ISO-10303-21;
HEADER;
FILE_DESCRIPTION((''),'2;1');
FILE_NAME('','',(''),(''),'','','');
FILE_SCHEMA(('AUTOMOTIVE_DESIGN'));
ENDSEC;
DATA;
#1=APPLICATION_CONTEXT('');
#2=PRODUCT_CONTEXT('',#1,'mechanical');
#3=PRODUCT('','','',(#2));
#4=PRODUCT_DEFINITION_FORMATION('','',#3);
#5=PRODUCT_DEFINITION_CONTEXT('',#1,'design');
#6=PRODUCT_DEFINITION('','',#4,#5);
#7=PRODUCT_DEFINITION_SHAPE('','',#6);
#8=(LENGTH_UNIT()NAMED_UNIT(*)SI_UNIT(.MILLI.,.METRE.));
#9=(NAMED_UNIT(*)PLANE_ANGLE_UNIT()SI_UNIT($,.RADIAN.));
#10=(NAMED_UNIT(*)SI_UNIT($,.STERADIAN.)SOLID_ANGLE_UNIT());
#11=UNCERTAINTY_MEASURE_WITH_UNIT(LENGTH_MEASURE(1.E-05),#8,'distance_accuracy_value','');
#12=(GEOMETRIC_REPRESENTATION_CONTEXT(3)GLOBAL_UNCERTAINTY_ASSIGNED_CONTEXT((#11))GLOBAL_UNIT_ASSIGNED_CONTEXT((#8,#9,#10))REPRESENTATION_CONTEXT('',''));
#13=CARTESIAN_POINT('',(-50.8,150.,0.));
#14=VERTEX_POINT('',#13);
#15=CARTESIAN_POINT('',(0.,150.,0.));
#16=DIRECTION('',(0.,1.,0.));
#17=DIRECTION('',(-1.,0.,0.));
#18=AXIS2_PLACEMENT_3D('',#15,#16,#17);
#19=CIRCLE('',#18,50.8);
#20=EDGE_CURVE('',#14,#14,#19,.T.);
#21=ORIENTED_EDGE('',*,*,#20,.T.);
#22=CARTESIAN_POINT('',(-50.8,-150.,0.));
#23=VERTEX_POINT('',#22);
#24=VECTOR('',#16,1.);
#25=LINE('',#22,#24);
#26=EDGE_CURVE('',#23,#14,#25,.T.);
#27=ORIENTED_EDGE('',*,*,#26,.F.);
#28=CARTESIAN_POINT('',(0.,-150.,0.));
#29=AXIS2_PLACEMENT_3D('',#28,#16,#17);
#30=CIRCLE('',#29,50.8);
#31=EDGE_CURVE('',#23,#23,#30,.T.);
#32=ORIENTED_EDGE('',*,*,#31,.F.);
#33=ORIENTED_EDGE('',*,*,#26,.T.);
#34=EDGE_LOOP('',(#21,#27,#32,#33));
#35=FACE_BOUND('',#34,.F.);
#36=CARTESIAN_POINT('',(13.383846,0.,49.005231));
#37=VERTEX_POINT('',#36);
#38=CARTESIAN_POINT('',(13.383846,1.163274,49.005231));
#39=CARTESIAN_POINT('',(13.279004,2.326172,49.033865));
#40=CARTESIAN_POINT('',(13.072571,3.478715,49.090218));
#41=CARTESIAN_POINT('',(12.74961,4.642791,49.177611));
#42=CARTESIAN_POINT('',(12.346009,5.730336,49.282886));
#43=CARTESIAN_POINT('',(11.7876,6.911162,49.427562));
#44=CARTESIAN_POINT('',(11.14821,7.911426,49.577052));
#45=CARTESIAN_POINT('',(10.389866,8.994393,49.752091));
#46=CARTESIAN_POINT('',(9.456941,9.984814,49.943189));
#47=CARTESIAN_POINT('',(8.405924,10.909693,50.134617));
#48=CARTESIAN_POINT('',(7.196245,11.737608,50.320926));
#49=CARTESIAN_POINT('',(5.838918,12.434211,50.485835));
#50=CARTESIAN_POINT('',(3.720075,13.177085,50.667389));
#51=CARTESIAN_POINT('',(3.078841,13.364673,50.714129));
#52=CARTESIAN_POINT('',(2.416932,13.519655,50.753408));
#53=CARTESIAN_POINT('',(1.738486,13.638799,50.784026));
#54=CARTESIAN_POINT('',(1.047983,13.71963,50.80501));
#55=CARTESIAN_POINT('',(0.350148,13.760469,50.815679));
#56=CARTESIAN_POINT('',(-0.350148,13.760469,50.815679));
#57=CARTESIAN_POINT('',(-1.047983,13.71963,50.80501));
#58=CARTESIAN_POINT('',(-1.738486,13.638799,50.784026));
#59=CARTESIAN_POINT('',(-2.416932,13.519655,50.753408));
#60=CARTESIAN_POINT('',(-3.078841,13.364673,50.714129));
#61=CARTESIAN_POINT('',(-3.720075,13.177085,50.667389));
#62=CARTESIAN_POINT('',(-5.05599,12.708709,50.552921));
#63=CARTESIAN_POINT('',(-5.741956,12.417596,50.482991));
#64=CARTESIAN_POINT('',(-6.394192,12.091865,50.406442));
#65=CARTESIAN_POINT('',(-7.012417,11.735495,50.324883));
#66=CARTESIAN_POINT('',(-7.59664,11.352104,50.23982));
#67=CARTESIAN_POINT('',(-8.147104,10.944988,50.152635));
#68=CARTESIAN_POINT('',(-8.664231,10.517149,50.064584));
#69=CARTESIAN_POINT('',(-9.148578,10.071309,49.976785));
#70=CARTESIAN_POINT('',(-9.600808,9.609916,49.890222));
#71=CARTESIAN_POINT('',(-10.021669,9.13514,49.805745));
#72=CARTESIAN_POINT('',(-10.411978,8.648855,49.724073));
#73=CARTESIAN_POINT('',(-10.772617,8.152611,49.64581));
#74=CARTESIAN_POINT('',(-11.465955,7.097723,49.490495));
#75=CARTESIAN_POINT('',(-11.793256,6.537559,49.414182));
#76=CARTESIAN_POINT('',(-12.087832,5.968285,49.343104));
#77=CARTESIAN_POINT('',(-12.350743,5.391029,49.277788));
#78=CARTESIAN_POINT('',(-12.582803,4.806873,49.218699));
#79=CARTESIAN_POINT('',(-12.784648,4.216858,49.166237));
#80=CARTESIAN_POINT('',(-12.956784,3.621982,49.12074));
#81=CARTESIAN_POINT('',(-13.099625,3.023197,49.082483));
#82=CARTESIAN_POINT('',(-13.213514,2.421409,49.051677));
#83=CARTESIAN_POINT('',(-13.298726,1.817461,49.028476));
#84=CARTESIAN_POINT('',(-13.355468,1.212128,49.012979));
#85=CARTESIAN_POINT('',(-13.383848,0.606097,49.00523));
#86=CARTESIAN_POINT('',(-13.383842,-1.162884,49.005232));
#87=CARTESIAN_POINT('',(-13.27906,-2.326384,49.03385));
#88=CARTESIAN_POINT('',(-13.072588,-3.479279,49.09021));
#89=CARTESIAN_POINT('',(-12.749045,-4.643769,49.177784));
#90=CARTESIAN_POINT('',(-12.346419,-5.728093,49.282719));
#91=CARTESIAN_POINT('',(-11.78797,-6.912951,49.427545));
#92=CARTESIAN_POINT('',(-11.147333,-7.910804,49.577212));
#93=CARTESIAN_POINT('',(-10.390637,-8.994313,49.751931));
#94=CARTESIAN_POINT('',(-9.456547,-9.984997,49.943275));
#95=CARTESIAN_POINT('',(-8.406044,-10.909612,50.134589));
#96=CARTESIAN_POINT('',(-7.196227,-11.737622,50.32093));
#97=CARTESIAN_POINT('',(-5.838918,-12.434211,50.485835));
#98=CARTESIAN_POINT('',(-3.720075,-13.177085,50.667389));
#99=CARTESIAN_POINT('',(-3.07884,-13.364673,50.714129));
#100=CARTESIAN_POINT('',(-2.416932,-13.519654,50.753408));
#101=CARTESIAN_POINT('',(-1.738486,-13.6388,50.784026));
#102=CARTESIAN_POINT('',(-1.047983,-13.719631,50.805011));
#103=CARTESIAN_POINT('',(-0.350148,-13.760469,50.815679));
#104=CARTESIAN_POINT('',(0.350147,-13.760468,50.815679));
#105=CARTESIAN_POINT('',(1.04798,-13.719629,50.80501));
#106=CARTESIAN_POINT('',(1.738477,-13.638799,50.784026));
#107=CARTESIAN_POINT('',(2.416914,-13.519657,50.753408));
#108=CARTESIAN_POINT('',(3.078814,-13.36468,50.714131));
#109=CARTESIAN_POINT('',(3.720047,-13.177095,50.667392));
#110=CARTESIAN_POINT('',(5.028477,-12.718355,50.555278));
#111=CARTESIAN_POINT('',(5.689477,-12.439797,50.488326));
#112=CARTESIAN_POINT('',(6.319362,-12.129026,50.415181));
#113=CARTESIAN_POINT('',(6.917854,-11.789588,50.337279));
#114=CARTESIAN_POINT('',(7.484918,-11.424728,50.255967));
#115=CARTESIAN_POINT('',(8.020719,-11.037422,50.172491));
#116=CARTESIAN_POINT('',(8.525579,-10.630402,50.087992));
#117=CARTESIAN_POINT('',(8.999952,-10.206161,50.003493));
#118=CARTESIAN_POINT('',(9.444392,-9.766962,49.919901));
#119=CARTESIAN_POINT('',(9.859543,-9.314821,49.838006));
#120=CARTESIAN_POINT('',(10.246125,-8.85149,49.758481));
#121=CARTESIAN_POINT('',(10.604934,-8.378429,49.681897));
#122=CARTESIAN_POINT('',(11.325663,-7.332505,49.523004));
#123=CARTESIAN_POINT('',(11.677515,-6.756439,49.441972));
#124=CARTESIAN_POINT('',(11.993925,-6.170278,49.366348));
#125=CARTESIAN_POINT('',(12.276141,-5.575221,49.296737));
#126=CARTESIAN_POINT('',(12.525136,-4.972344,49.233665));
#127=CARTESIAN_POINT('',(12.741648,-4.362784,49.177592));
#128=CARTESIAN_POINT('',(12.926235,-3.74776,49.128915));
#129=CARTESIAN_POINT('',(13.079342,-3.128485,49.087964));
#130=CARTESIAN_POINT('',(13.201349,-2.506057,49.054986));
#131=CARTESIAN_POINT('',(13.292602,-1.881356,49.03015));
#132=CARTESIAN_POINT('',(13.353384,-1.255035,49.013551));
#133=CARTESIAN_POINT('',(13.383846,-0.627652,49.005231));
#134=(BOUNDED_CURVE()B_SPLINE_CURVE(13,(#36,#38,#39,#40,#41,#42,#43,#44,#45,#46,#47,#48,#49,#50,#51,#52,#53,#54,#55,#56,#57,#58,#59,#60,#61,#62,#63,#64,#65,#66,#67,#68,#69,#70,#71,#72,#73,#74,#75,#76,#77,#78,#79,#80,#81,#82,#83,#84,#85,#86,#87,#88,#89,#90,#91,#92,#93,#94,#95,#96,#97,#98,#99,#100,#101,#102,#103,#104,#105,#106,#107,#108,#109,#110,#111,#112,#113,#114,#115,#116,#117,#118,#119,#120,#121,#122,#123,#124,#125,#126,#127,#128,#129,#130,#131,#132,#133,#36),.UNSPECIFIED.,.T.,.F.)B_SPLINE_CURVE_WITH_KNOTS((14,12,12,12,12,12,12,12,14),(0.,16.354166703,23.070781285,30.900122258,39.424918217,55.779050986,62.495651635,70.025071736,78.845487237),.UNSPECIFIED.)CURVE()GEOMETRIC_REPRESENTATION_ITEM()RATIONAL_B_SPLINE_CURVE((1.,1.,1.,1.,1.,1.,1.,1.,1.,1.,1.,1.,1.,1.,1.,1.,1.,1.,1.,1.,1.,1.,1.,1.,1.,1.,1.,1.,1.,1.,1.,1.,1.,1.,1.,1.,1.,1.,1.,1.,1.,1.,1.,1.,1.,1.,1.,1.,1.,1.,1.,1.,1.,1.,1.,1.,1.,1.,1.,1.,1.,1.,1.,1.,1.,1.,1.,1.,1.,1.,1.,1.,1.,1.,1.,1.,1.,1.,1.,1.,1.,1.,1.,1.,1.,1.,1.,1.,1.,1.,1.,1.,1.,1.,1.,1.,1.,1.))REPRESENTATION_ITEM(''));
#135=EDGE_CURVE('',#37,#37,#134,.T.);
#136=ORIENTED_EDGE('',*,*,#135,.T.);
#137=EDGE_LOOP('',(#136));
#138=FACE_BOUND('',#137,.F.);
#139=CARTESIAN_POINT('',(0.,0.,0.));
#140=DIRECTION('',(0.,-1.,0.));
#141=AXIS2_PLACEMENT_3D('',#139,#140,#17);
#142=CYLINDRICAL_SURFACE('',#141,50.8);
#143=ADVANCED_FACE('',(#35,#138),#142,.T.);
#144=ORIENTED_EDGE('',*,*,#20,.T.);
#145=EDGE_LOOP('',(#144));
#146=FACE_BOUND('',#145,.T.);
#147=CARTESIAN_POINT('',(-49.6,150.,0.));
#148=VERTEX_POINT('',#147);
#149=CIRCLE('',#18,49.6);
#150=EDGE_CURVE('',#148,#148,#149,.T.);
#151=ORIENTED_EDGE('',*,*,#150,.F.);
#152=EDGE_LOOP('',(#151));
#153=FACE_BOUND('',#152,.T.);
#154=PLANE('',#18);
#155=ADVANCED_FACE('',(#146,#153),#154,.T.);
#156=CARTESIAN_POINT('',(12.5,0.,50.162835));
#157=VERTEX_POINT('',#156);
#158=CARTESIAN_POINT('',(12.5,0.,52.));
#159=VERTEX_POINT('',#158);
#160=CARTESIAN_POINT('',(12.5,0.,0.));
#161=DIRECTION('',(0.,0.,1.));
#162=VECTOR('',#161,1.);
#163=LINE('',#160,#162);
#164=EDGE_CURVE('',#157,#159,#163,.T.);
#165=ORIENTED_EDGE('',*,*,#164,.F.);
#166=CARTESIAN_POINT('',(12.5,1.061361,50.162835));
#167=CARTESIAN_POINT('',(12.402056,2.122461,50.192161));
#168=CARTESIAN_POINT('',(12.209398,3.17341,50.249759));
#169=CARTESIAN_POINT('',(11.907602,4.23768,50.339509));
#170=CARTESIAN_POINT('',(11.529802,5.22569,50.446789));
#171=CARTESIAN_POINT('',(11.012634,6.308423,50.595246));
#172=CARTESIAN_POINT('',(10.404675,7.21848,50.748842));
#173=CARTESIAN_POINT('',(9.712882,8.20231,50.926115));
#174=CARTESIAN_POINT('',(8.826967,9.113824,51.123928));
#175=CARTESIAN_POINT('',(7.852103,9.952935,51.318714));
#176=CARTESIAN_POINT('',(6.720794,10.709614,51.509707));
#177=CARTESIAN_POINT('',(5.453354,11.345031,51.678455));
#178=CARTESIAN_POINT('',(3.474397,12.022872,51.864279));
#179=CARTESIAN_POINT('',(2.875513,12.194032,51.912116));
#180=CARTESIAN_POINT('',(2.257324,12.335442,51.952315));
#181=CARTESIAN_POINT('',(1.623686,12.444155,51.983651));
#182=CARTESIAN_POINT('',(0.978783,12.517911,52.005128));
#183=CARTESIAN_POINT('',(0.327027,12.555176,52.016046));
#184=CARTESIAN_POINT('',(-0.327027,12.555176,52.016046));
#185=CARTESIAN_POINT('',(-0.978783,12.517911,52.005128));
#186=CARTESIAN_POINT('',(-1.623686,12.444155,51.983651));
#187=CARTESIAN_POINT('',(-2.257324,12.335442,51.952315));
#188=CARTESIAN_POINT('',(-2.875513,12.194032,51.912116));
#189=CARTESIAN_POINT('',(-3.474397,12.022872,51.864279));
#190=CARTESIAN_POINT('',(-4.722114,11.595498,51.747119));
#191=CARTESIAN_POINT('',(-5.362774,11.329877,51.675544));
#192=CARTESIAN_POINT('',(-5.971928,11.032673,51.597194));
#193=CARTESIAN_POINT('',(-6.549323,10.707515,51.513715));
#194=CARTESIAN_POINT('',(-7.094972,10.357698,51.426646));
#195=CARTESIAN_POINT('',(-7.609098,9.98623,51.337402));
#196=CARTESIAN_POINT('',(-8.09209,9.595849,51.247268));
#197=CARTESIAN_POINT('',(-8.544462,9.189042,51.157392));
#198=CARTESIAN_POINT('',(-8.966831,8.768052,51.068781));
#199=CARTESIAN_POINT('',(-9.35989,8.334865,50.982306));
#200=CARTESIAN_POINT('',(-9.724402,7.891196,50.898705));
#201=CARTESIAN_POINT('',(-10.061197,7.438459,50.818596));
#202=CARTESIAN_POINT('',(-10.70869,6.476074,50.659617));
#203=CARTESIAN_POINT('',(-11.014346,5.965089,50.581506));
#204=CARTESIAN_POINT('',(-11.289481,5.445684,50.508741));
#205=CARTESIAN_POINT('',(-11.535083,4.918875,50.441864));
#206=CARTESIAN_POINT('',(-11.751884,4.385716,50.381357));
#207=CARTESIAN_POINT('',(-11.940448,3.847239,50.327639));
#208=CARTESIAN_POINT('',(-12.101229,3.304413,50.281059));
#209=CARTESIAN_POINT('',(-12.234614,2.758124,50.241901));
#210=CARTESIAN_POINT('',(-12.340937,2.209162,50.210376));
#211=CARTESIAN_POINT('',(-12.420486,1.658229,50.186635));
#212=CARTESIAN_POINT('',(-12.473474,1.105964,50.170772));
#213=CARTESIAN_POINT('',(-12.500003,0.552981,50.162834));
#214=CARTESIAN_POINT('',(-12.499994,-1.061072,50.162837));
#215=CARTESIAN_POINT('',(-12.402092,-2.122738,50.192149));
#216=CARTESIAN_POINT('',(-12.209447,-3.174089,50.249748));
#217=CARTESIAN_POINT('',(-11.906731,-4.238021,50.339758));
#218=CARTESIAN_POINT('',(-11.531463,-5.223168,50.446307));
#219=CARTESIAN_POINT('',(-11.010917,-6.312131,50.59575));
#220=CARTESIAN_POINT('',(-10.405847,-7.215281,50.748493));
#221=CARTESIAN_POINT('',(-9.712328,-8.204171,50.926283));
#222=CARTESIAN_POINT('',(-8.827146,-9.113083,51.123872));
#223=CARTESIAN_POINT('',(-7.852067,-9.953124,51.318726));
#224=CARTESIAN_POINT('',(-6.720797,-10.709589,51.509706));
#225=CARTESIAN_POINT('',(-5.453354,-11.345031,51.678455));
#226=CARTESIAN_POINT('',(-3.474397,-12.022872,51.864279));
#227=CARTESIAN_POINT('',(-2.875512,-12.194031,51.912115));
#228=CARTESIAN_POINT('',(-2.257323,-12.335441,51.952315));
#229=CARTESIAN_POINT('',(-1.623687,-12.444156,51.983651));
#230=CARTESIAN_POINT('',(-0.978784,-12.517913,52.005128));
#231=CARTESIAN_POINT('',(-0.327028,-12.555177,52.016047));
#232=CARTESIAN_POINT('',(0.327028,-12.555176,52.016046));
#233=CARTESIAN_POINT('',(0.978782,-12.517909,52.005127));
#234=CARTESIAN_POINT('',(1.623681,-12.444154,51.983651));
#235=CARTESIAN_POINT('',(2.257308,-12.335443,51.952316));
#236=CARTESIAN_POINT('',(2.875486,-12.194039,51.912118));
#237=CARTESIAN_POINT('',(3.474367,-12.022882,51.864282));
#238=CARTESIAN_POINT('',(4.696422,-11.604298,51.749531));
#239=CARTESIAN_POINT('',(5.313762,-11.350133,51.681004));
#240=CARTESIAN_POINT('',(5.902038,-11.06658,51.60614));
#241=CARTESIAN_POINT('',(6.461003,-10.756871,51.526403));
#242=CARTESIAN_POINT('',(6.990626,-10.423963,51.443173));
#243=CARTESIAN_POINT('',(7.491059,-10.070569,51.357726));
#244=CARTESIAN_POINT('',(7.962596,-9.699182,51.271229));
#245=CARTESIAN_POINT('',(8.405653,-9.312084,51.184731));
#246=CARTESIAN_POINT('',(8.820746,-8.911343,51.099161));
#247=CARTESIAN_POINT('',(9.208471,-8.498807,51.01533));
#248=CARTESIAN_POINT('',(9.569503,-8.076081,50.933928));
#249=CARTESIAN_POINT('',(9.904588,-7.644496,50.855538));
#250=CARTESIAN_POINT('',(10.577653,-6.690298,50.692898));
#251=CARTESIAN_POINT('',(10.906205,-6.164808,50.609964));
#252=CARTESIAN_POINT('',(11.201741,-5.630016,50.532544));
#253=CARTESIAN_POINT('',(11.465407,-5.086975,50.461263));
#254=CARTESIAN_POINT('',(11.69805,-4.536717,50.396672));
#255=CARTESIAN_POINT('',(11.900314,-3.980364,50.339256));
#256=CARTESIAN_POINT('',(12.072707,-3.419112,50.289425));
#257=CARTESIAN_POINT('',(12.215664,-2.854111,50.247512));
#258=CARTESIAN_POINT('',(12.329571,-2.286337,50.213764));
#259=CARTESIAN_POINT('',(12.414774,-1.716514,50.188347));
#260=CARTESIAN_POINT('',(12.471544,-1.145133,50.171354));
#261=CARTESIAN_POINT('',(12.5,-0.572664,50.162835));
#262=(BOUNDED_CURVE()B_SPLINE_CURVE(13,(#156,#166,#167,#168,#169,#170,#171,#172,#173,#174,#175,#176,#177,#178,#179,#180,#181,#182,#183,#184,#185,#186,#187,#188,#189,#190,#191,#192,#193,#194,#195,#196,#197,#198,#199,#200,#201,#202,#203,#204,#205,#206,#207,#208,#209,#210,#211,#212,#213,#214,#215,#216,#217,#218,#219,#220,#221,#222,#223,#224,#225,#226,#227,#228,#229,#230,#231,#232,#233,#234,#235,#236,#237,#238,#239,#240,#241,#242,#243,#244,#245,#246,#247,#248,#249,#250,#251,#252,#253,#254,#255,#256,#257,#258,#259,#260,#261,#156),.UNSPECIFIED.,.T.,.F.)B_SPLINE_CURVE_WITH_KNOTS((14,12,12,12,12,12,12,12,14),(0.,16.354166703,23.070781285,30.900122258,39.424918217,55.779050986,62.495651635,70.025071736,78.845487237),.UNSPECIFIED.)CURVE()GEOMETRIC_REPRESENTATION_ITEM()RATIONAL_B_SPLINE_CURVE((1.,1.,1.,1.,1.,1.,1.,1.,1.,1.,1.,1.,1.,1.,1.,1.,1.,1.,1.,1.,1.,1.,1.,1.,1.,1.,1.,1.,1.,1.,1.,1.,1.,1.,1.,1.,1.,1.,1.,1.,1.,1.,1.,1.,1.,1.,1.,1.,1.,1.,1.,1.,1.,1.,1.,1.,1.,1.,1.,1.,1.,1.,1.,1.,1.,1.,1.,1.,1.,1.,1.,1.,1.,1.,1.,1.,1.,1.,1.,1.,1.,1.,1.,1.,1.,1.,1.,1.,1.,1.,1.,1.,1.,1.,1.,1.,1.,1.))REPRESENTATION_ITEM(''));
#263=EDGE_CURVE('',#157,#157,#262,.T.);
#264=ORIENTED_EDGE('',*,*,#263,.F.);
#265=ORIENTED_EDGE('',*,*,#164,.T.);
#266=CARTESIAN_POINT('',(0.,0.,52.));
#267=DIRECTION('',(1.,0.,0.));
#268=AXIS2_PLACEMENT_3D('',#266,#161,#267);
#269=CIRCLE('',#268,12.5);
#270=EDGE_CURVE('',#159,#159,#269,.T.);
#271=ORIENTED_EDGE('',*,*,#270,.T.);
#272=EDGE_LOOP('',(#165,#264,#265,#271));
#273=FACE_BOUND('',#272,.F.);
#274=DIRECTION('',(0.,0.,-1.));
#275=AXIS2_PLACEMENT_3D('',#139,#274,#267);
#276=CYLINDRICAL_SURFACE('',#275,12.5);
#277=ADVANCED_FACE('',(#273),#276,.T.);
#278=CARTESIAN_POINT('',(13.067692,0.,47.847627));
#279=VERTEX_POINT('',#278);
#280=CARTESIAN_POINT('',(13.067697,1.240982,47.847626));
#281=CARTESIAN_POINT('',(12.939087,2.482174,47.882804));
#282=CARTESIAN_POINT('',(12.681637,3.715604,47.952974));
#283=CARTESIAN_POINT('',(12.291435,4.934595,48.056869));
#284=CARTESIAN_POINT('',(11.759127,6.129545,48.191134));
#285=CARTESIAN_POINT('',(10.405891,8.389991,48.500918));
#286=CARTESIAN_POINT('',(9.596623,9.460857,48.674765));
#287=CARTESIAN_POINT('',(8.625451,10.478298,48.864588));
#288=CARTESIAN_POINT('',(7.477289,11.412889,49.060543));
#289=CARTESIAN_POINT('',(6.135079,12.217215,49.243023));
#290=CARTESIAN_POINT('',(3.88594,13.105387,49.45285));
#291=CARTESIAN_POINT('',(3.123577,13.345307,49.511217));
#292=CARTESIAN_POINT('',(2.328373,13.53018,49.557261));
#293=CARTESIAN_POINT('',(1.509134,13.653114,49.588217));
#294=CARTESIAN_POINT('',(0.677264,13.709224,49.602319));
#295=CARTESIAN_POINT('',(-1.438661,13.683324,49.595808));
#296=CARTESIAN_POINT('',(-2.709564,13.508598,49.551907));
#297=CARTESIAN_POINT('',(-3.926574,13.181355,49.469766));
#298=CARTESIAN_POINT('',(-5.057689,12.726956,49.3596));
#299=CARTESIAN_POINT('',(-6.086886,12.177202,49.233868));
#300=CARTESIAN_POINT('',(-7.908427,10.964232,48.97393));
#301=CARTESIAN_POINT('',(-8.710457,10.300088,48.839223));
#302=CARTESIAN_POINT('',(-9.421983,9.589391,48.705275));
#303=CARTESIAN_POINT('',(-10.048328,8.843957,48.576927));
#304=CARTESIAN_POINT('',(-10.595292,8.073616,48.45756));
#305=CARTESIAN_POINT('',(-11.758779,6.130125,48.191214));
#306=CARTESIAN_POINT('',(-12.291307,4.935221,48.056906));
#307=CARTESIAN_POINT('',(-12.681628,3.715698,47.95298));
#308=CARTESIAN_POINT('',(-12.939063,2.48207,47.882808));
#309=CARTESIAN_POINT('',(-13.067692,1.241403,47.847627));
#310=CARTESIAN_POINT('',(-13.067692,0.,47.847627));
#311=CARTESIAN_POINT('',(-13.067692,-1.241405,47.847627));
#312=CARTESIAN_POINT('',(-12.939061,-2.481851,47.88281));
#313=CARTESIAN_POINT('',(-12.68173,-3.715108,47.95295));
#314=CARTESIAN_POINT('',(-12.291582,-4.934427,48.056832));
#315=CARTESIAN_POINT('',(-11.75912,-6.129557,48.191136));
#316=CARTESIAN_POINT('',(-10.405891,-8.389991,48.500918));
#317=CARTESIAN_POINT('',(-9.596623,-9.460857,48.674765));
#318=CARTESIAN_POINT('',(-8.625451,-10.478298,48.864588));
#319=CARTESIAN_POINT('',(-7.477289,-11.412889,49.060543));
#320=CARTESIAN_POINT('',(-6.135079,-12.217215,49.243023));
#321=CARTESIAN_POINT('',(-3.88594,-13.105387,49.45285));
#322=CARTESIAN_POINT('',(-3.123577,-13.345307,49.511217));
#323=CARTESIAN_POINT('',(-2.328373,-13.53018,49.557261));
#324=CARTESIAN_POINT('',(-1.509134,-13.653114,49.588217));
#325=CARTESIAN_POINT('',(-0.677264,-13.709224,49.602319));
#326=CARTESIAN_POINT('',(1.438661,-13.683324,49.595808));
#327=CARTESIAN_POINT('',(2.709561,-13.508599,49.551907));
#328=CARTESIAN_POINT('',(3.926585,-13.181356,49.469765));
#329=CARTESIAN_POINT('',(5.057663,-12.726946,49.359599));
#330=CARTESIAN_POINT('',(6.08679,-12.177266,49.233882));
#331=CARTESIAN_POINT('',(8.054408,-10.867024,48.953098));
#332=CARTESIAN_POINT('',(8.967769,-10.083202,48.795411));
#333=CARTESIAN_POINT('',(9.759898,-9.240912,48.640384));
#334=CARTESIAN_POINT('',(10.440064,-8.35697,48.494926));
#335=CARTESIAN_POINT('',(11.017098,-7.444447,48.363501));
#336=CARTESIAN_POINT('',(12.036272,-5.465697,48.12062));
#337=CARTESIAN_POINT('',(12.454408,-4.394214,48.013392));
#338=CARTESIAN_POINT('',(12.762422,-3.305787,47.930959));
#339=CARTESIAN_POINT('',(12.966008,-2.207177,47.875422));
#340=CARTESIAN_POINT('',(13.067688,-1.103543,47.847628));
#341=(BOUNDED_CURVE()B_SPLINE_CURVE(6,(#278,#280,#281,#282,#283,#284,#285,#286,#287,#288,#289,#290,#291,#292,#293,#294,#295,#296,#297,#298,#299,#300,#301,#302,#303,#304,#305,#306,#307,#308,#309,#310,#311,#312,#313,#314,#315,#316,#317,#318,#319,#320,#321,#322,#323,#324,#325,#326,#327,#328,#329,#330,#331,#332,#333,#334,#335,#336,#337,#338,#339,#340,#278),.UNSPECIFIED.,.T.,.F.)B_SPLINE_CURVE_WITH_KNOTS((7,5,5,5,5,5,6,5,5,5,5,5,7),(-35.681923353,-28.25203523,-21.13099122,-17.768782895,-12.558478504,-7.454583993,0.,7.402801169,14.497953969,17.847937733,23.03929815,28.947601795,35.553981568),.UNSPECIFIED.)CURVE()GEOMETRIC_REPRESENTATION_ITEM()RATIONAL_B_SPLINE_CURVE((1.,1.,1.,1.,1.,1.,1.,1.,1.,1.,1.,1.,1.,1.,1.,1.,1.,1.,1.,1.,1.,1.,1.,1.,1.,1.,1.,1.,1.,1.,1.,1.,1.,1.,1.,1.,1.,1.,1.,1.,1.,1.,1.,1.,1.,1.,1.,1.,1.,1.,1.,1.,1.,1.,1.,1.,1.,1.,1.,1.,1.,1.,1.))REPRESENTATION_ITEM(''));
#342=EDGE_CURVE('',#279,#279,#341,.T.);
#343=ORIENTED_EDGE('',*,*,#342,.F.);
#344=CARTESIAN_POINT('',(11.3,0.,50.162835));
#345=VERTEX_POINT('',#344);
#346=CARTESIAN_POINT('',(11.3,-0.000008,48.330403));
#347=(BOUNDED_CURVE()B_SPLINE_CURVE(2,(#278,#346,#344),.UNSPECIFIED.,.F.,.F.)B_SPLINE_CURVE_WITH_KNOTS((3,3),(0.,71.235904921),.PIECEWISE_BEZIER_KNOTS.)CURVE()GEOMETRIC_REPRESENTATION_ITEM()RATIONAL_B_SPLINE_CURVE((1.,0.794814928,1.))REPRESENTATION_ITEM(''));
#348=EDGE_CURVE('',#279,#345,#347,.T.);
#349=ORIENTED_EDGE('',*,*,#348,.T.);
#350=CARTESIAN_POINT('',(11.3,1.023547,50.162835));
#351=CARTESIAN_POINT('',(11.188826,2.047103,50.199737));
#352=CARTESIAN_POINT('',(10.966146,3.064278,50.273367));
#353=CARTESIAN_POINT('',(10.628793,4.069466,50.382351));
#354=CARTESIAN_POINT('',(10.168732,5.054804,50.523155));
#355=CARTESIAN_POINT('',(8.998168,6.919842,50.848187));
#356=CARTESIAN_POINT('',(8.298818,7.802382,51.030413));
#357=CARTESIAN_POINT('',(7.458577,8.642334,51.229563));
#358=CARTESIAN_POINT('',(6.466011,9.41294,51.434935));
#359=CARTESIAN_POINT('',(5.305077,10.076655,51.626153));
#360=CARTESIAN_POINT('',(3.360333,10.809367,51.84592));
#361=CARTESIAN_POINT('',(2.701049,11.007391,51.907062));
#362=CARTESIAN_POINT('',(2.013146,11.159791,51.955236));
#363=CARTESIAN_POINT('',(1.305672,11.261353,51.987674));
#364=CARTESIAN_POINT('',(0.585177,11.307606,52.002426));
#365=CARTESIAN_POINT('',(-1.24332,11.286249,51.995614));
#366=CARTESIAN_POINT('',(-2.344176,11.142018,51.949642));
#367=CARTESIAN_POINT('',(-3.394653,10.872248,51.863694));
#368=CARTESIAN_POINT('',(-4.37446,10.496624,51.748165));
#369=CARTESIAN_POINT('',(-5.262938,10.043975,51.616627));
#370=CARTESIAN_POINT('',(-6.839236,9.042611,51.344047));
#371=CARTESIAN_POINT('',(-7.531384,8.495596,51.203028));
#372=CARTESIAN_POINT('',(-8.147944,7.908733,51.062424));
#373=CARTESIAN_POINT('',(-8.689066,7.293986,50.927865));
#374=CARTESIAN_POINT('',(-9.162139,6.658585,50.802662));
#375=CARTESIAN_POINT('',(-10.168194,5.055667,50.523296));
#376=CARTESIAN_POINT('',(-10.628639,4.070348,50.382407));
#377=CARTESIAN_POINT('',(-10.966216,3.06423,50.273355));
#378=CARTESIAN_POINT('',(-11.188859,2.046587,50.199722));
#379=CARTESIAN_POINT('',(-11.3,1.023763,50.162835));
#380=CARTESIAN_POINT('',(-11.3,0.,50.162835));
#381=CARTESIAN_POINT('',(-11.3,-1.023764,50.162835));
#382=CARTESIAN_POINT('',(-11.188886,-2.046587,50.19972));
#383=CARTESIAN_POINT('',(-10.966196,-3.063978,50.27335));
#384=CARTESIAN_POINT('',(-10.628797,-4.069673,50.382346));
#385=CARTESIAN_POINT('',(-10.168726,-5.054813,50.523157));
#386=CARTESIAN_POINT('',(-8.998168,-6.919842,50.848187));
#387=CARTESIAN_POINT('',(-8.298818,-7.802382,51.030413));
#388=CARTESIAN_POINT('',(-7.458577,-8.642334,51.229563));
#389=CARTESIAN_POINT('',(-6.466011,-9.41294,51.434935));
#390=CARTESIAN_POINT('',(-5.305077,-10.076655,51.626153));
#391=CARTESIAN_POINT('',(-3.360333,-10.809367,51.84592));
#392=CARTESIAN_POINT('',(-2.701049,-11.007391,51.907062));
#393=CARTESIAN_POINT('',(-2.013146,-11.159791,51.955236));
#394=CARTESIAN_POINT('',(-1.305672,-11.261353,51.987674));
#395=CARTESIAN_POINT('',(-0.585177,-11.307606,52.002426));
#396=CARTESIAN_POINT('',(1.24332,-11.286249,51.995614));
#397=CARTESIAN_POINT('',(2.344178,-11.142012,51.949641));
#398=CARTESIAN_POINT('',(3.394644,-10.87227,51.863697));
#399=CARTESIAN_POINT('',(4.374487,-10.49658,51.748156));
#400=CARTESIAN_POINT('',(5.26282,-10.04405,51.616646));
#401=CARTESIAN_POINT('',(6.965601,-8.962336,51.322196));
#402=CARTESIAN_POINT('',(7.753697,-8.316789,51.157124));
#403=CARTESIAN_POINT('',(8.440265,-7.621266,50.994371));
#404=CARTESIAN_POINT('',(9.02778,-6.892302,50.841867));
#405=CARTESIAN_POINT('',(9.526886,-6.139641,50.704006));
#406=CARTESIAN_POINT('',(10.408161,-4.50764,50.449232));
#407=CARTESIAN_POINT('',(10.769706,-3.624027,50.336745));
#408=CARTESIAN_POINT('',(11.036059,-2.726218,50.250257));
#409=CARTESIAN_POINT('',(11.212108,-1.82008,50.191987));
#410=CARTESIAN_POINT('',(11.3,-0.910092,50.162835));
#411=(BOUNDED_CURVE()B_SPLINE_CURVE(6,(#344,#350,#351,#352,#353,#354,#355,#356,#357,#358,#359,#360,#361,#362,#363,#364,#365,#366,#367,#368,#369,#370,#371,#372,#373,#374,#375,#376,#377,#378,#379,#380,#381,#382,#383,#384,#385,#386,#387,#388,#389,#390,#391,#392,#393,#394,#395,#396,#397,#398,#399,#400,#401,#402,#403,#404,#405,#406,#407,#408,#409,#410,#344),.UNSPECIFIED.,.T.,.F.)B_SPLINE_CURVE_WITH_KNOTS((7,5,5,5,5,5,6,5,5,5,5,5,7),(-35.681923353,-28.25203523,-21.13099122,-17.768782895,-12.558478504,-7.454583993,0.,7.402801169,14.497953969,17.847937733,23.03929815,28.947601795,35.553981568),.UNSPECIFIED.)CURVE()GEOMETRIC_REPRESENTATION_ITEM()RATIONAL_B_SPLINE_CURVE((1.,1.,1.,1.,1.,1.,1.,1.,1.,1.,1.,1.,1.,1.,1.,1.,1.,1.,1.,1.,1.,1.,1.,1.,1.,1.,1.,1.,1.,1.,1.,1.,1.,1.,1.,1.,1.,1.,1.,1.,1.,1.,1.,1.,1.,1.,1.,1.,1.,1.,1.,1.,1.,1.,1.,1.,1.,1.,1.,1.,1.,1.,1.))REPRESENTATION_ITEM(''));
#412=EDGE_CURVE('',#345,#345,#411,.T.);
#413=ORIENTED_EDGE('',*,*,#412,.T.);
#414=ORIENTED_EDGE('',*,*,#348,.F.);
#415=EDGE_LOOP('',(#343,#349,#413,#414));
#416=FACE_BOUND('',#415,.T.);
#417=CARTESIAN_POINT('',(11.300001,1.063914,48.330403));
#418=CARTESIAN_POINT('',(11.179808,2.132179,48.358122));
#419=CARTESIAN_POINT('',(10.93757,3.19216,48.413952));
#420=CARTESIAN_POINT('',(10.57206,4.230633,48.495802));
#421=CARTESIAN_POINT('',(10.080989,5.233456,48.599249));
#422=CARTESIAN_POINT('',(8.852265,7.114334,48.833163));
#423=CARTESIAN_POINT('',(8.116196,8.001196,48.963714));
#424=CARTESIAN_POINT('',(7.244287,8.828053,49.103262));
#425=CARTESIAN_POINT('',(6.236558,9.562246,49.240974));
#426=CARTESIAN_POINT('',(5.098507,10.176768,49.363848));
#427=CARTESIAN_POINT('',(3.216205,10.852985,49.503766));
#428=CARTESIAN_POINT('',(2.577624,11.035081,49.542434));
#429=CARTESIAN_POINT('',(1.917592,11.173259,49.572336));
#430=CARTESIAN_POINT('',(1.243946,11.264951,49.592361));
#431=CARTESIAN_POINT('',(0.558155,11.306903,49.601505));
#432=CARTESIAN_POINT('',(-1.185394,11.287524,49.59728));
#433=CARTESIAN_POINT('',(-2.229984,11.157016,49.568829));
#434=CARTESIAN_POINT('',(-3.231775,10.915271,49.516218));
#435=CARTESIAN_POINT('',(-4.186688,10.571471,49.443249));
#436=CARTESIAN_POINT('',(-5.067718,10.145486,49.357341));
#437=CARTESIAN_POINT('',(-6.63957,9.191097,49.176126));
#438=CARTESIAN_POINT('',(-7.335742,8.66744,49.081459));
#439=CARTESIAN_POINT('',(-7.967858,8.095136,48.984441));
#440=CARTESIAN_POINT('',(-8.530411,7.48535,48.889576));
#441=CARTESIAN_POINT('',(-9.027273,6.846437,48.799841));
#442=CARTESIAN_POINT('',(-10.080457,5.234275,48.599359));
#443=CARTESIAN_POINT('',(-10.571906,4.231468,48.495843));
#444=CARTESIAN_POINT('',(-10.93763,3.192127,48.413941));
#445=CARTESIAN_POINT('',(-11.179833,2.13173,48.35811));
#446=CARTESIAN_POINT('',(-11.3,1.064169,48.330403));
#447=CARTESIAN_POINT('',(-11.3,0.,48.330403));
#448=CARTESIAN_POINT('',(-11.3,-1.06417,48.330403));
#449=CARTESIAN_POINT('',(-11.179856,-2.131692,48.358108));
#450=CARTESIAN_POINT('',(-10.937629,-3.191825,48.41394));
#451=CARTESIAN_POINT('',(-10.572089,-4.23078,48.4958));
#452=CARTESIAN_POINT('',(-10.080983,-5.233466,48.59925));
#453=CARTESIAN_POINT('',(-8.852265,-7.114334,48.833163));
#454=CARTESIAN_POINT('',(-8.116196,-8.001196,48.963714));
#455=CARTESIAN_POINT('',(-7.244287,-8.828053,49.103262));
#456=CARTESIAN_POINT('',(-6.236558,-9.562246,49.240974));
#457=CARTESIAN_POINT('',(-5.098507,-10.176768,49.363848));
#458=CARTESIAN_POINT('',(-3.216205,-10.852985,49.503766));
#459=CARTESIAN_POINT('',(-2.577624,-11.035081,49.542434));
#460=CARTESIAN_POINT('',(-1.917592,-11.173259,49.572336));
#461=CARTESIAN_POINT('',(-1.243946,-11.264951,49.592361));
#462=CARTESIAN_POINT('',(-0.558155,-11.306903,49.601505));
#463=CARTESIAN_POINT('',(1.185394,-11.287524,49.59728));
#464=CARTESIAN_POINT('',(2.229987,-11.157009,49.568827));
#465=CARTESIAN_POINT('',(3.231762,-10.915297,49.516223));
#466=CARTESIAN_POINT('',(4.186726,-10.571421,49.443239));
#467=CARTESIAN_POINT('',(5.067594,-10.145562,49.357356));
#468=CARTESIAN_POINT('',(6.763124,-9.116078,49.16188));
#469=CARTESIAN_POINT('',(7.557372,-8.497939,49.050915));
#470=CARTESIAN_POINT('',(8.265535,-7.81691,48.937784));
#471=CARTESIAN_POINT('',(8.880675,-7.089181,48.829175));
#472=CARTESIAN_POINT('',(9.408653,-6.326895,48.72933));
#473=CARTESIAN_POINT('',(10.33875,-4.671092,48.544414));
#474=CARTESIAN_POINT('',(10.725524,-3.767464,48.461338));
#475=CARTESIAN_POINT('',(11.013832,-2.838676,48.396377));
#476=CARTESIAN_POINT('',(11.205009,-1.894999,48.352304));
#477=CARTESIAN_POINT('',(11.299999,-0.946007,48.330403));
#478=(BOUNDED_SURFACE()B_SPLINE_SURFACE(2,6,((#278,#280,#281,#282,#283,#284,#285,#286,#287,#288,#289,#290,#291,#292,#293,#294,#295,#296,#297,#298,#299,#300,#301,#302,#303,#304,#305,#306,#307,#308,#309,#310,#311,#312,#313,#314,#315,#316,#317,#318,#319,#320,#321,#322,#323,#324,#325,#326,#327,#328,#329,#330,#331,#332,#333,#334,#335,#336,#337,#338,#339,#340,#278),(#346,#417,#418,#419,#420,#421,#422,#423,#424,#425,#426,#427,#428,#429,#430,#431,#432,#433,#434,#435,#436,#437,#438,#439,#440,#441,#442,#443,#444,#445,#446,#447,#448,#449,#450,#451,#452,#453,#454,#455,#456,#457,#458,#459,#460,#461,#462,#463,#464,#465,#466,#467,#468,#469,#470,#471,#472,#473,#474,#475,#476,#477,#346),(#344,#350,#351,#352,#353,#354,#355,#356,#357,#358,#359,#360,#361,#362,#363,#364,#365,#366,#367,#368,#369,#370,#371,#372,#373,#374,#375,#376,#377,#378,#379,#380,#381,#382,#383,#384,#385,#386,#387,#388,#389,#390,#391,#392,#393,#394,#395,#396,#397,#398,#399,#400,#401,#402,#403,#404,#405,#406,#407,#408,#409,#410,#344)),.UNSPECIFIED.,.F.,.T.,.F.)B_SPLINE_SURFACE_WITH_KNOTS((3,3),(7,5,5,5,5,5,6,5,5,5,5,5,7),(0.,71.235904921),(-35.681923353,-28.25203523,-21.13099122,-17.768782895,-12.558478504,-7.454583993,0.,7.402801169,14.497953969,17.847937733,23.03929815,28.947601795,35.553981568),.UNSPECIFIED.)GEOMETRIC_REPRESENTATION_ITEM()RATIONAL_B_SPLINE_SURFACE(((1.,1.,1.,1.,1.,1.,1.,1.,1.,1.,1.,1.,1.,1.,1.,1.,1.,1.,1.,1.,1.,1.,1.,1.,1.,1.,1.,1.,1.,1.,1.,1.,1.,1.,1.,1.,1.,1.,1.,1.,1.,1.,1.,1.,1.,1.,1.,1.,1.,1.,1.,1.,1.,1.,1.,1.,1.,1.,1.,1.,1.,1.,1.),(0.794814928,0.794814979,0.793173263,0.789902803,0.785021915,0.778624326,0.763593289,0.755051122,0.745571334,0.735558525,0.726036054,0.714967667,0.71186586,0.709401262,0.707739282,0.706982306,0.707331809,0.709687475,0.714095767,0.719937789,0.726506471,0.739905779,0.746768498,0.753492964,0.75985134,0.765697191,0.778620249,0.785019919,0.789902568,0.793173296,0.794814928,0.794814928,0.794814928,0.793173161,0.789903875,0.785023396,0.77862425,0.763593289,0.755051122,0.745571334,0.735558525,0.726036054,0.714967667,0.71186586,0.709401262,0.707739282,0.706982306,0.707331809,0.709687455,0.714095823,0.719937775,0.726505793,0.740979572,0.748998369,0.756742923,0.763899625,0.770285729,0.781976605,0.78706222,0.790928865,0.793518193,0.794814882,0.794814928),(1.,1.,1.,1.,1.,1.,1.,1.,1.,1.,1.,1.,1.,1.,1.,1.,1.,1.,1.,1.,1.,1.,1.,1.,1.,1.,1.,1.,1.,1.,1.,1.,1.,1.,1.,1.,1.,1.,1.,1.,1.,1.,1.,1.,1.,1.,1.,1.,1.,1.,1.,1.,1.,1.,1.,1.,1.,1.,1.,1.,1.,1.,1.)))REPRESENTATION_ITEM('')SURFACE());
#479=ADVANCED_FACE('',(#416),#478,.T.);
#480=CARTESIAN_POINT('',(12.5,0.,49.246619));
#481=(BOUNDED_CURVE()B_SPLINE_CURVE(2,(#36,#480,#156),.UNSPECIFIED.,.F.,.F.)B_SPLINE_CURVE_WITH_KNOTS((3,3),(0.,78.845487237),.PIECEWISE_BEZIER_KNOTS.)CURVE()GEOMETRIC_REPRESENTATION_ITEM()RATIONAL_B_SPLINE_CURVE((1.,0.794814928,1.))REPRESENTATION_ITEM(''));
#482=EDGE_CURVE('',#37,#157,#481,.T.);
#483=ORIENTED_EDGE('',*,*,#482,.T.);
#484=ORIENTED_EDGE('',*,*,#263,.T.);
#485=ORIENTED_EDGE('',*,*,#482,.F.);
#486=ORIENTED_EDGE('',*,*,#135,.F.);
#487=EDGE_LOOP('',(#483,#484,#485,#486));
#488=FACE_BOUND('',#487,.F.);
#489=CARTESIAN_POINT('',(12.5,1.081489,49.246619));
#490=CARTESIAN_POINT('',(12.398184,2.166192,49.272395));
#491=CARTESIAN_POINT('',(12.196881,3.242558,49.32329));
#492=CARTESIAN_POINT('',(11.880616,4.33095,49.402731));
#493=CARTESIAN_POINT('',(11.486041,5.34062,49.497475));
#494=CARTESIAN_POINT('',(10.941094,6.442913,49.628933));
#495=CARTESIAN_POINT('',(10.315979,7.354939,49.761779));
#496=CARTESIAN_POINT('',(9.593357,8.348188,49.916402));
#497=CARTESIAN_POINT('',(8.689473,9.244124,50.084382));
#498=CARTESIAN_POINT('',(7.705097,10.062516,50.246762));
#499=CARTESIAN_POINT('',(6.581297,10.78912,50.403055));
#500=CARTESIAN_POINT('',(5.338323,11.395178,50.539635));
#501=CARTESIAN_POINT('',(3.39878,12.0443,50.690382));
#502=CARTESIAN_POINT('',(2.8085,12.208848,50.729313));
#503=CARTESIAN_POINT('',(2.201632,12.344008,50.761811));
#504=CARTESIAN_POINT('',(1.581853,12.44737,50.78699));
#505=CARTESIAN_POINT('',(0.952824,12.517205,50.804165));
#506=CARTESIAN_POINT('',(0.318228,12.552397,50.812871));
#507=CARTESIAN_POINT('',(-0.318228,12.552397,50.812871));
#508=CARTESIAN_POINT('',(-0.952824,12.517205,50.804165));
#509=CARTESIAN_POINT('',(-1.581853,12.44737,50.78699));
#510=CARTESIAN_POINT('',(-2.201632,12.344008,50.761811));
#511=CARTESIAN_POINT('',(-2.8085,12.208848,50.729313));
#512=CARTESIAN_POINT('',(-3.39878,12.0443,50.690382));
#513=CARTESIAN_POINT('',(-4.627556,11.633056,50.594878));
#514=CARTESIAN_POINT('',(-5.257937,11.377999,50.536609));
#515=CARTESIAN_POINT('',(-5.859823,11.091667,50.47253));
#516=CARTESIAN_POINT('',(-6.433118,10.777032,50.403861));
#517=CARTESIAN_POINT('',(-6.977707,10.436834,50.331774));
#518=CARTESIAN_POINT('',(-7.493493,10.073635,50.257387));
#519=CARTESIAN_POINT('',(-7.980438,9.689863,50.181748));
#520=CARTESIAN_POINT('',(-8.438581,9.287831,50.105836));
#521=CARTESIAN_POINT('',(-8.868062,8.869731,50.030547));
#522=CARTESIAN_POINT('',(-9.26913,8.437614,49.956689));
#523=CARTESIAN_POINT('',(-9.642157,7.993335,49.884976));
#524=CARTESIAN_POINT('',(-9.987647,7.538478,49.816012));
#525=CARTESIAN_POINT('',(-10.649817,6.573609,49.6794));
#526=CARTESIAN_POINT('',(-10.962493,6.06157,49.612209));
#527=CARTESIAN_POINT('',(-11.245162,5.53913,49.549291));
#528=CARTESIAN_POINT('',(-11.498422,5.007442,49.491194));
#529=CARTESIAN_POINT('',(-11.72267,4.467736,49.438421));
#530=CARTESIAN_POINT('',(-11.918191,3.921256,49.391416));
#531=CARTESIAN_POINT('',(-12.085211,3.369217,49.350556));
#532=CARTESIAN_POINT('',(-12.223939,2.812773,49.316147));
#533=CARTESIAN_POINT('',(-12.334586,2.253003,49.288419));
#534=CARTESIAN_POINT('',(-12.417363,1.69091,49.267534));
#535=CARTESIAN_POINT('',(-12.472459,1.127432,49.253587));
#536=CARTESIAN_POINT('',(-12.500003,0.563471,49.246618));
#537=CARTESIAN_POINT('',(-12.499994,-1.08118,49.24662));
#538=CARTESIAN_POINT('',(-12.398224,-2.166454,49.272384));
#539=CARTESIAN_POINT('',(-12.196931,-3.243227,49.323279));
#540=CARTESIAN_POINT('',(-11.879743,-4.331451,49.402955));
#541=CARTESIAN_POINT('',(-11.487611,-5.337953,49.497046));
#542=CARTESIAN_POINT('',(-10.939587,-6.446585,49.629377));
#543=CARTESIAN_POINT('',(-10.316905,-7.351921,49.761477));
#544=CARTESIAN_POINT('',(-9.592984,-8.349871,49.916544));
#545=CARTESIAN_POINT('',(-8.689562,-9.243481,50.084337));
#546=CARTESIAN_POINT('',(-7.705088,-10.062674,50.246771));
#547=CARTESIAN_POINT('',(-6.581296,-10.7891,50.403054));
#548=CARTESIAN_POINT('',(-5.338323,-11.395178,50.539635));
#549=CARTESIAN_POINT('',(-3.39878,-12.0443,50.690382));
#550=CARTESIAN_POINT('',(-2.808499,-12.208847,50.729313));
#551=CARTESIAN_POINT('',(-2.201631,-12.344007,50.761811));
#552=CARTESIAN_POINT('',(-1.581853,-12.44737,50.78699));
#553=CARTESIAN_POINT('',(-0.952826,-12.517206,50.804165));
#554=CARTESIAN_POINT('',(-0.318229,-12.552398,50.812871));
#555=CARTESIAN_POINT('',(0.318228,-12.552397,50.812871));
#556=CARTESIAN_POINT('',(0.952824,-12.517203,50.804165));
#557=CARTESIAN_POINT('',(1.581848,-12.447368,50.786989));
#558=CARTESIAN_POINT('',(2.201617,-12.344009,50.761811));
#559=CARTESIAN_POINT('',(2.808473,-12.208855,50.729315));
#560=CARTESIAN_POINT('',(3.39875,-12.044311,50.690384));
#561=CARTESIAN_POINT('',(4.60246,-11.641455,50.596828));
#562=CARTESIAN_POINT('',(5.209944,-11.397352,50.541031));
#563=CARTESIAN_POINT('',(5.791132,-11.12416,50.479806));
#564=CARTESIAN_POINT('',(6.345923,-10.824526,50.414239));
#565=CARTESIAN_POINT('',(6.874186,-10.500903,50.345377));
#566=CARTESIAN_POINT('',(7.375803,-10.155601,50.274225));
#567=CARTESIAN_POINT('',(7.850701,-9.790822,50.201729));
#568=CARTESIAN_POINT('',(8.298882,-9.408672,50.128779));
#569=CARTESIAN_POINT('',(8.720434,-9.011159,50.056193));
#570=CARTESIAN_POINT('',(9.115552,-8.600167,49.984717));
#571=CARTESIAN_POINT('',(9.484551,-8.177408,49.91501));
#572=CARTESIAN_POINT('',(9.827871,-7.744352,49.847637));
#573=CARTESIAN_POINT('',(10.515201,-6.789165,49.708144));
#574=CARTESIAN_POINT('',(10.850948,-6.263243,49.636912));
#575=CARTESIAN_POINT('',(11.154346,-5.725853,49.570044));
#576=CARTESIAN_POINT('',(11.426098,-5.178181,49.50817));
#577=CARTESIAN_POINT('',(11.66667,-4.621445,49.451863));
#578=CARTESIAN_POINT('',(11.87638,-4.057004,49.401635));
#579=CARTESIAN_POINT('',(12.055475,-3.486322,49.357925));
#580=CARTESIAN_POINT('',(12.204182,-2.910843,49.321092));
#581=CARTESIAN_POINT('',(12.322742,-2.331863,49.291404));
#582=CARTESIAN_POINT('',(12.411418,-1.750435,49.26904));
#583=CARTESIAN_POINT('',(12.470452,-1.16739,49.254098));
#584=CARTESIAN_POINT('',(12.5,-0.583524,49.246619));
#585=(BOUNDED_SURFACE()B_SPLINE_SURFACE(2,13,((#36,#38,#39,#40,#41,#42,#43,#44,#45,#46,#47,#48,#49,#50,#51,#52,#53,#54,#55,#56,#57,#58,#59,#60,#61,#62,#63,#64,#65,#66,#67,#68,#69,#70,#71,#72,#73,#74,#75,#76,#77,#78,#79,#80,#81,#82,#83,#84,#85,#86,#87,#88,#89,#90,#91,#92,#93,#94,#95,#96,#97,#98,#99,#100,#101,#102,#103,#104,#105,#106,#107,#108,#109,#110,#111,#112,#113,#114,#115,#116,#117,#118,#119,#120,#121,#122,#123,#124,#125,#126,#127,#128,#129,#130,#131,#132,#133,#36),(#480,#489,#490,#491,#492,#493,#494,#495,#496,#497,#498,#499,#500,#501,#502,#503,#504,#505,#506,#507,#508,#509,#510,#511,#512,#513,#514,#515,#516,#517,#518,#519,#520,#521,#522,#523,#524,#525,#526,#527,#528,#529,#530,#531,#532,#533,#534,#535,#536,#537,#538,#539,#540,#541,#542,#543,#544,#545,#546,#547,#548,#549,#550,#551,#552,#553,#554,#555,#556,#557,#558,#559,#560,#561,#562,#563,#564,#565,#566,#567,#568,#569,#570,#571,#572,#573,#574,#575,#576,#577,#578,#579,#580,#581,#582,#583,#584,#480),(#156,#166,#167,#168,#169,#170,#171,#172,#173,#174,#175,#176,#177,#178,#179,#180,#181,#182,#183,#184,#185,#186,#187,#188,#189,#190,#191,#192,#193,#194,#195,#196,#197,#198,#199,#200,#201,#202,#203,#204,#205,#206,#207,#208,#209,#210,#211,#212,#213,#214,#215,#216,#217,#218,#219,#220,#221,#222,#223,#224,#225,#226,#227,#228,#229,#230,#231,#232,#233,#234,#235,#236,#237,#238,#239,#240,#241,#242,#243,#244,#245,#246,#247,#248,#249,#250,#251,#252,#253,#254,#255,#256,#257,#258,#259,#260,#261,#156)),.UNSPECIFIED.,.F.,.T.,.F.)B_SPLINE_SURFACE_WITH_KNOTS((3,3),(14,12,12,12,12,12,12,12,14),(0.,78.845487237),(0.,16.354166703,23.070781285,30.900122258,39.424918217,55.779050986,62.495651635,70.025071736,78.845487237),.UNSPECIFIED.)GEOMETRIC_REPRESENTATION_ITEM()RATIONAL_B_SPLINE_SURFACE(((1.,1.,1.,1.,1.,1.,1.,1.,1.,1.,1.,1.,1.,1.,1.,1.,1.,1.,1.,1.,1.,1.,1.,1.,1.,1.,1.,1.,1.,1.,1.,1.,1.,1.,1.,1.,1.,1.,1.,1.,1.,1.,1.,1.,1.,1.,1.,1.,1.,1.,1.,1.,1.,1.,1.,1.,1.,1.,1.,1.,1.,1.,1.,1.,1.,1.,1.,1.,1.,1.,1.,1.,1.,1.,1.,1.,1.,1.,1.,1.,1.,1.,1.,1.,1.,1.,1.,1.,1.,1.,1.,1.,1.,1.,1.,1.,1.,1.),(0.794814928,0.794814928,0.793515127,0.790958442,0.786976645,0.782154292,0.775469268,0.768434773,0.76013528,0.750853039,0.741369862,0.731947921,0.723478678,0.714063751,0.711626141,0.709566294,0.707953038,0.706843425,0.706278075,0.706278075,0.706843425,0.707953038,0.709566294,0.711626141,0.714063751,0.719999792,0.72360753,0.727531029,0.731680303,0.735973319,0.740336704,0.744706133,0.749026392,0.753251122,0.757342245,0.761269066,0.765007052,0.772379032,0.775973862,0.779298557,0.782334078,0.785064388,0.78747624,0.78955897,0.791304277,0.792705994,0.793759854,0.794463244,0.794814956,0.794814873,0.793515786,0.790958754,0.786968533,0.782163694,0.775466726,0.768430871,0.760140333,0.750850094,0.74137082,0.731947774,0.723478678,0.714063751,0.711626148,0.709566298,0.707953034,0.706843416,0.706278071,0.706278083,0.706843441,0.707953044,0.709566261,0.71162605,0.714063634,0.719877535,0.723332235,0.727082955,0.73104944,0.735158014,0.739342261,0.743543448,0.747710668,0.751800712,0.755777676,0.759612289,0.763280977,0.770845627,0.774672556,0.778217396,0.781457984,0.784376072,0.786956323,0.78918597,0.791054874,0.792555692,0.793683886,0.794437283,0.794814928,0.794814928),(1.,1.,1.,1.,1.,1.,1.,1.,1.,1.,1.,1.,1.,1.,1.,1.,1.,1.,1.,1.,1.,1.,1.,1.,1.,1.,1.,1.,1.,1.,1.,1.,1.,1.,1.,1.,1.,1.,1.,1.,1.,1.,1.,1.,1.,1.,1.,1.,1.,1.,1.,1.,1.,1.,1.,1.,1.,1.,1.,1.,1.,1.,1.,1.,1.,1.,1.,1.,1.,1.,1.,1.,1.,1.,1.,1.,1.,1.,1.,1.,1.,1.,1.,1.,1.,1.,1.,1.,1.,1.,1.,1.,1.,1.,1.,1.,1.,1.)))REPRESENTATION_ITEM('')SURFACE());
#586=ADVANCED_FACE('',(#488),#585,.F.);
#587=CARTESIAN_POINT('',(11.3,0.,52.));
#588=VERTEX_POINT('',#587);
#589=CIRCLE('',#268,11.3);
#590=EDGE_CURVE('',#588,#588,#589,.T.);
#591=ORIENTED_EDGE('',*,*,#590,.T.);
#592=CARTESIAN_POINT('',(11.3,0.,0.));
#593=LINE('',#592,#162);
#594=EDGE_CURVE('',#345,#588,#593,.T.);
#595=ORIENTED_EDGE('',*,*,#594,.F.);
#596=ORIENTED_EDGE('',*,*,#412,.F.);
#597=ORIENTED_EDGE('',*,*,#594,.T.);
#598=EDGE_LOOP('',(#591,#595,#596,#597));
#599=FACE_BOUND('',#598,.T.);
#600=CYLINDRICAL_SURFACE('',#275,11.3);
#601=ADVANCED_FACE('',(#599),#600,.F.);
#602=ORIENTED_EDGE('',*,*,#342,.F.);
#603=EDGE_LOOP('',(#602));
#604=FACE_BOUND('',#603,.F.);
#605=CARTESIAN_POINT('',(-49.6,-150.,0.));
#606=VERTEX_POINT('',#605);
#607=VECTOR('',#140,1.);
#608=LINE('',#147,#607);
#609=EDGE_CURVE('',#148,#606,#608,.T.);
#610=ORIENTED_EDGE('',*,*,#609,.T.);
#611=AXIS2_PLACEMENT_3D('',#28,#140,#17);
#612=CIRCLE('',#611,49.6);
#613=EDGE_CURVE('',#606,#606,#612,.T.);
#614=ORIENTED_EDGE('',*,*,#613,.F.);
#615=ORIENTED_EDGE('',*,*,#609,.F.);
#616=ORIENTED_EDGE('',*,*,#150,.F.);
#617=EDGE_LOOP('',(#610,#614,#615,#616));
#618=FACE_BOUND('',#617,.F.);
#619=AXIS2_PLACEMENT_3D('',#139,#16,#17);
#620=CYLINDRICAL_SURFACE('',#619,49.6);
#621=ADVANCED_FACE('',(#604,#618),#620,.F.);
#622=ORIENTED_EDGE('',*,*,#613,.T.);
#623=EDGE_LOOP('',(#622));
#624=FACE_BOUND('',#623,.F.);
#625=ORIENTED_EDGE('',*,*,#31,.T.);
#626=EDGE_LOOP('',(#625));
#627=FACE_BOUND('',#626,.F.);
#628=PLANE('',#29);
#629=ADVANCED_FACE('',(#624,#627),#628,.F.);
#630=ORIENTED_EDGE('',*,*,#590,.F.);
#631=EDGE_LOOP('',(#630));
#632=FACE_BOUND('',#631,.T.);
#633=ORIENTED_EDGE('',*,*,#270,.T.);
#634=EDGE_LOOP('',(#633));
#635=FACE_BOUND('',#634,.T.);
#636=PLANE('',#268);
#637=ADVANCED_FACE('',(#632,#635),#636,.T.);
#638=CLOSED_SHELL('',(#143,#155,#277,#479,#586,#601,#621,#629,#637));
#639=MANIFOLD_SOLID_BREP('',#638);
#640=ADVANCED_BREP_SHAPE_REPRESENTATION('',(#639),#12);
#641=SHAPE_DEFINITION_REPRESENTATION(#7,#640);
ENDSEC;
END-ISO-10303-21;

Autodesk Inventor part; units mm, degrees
ref_plane "YZ Plane" through (0, 0, 0) normal (1, 0, 0) x (0, 1, 0)
ref_plane "XZ Plane" through (0, 0, 0) normal (0, 1, 0) x (-1, 0, 0)
ref_plane "XY Plane" through (0, 0, 0) normal (0, 0, 1) x (1, 0, 0)
sketch "Szkic8" plane through (0, 0, 0) normal (0, 1, 0) x (-1, 0, 0)
  circle A0 centre (0, 0) radius 50.8
  circle A1 centre (0, 0) radius 49.6
  dimension "d53" = 101.6
  dimension "d54" = 1.2
extrude "Wyciągnięcie proste2" add sketch "Szkic8" along normal mid plane 300
sketch "Szkic13" plane through (0, 0, 0) normal (0, 0, 1) x (1, 0, 0)
  circle A0 centre (0, 0) radius 12.5
  circle A1 centre (0, 0) radius 11.3
  dimension "d67" = 25
  dimension "d68" = 1.2
extrude "Wyciągnięcie proste6" add sketch "Szkic13" along normal blind 52
sketch "Szkic14" plane through (0, 0, 52) normal (0, 0, 1) x (1, 0, 0)
  circle A0 centre (0, 0) radius 11.3 projected
extrude "Wyciągnięcie proste7" cut sketch "Szkic14" against normal blind 52
sketch "Szkic15" plane through (0, -150, 0) normal (0, -1, 0) x (1, 0, 0)
  circle A0 centre (0, 0) radius 49.6 projected
extrude "Wyciągnięcie proste8" cut sketch "Szkic15" against normal blind 300
fillet "Zaokrąglenie3" radius 1.2 2 edges at (0, 12.5, 50.8) (-0.0026, -12.5, 50.8)
fillet "Zaokrąglenie4" radius 2.4 2 edges at (0.0388, -11.2999, 49.6) (-0.0376, 11.2999, 49.6)
equation "\"d53\" = OD"
equation "\"d54\" = THK"
equation "\"d55\" = L1"
equation "\"d67\" = OD2"
equation "\"d68\" = THK"
equation "\"d69\" = L2"
equation "\"d71\" = L2"
equation "\"d73\" = L1"
equation "\"d75\" = THK"
equation "\"d76\" = 2 * THK"
equation "\"SzerokośćGięciaPodcięcia\" = Grubość"
equation "\"RozmiarPodcięciaNarożnika\" = 4 * Grubość"
equation "\"PromieńPrzejścia\" = PromieńGięcia"
equation "\"Rozmiar_promienia_Jacobiego\" = PromieńGięcia"
equation "\"Wielk_odstępu\" = Grubość"
equation "\"d2\" = PromieńGięcia"
equation "\"d23\" = PromieńGięcia"
equation "\"OD\" = 101.6"
equation "\"THK\" = 1.2"
equation "\"L1\" = 300"
equation "\"L2\" = 52"
equation "\"OD2\" = 25"
equation "\"Grubość\" = 1.5"
equation "\"PromieńGięcia\" = 3"
properties part number "Trójnik red. krótki  Ø101,6 25 101,6 s=1,2 L=300" material "304"
